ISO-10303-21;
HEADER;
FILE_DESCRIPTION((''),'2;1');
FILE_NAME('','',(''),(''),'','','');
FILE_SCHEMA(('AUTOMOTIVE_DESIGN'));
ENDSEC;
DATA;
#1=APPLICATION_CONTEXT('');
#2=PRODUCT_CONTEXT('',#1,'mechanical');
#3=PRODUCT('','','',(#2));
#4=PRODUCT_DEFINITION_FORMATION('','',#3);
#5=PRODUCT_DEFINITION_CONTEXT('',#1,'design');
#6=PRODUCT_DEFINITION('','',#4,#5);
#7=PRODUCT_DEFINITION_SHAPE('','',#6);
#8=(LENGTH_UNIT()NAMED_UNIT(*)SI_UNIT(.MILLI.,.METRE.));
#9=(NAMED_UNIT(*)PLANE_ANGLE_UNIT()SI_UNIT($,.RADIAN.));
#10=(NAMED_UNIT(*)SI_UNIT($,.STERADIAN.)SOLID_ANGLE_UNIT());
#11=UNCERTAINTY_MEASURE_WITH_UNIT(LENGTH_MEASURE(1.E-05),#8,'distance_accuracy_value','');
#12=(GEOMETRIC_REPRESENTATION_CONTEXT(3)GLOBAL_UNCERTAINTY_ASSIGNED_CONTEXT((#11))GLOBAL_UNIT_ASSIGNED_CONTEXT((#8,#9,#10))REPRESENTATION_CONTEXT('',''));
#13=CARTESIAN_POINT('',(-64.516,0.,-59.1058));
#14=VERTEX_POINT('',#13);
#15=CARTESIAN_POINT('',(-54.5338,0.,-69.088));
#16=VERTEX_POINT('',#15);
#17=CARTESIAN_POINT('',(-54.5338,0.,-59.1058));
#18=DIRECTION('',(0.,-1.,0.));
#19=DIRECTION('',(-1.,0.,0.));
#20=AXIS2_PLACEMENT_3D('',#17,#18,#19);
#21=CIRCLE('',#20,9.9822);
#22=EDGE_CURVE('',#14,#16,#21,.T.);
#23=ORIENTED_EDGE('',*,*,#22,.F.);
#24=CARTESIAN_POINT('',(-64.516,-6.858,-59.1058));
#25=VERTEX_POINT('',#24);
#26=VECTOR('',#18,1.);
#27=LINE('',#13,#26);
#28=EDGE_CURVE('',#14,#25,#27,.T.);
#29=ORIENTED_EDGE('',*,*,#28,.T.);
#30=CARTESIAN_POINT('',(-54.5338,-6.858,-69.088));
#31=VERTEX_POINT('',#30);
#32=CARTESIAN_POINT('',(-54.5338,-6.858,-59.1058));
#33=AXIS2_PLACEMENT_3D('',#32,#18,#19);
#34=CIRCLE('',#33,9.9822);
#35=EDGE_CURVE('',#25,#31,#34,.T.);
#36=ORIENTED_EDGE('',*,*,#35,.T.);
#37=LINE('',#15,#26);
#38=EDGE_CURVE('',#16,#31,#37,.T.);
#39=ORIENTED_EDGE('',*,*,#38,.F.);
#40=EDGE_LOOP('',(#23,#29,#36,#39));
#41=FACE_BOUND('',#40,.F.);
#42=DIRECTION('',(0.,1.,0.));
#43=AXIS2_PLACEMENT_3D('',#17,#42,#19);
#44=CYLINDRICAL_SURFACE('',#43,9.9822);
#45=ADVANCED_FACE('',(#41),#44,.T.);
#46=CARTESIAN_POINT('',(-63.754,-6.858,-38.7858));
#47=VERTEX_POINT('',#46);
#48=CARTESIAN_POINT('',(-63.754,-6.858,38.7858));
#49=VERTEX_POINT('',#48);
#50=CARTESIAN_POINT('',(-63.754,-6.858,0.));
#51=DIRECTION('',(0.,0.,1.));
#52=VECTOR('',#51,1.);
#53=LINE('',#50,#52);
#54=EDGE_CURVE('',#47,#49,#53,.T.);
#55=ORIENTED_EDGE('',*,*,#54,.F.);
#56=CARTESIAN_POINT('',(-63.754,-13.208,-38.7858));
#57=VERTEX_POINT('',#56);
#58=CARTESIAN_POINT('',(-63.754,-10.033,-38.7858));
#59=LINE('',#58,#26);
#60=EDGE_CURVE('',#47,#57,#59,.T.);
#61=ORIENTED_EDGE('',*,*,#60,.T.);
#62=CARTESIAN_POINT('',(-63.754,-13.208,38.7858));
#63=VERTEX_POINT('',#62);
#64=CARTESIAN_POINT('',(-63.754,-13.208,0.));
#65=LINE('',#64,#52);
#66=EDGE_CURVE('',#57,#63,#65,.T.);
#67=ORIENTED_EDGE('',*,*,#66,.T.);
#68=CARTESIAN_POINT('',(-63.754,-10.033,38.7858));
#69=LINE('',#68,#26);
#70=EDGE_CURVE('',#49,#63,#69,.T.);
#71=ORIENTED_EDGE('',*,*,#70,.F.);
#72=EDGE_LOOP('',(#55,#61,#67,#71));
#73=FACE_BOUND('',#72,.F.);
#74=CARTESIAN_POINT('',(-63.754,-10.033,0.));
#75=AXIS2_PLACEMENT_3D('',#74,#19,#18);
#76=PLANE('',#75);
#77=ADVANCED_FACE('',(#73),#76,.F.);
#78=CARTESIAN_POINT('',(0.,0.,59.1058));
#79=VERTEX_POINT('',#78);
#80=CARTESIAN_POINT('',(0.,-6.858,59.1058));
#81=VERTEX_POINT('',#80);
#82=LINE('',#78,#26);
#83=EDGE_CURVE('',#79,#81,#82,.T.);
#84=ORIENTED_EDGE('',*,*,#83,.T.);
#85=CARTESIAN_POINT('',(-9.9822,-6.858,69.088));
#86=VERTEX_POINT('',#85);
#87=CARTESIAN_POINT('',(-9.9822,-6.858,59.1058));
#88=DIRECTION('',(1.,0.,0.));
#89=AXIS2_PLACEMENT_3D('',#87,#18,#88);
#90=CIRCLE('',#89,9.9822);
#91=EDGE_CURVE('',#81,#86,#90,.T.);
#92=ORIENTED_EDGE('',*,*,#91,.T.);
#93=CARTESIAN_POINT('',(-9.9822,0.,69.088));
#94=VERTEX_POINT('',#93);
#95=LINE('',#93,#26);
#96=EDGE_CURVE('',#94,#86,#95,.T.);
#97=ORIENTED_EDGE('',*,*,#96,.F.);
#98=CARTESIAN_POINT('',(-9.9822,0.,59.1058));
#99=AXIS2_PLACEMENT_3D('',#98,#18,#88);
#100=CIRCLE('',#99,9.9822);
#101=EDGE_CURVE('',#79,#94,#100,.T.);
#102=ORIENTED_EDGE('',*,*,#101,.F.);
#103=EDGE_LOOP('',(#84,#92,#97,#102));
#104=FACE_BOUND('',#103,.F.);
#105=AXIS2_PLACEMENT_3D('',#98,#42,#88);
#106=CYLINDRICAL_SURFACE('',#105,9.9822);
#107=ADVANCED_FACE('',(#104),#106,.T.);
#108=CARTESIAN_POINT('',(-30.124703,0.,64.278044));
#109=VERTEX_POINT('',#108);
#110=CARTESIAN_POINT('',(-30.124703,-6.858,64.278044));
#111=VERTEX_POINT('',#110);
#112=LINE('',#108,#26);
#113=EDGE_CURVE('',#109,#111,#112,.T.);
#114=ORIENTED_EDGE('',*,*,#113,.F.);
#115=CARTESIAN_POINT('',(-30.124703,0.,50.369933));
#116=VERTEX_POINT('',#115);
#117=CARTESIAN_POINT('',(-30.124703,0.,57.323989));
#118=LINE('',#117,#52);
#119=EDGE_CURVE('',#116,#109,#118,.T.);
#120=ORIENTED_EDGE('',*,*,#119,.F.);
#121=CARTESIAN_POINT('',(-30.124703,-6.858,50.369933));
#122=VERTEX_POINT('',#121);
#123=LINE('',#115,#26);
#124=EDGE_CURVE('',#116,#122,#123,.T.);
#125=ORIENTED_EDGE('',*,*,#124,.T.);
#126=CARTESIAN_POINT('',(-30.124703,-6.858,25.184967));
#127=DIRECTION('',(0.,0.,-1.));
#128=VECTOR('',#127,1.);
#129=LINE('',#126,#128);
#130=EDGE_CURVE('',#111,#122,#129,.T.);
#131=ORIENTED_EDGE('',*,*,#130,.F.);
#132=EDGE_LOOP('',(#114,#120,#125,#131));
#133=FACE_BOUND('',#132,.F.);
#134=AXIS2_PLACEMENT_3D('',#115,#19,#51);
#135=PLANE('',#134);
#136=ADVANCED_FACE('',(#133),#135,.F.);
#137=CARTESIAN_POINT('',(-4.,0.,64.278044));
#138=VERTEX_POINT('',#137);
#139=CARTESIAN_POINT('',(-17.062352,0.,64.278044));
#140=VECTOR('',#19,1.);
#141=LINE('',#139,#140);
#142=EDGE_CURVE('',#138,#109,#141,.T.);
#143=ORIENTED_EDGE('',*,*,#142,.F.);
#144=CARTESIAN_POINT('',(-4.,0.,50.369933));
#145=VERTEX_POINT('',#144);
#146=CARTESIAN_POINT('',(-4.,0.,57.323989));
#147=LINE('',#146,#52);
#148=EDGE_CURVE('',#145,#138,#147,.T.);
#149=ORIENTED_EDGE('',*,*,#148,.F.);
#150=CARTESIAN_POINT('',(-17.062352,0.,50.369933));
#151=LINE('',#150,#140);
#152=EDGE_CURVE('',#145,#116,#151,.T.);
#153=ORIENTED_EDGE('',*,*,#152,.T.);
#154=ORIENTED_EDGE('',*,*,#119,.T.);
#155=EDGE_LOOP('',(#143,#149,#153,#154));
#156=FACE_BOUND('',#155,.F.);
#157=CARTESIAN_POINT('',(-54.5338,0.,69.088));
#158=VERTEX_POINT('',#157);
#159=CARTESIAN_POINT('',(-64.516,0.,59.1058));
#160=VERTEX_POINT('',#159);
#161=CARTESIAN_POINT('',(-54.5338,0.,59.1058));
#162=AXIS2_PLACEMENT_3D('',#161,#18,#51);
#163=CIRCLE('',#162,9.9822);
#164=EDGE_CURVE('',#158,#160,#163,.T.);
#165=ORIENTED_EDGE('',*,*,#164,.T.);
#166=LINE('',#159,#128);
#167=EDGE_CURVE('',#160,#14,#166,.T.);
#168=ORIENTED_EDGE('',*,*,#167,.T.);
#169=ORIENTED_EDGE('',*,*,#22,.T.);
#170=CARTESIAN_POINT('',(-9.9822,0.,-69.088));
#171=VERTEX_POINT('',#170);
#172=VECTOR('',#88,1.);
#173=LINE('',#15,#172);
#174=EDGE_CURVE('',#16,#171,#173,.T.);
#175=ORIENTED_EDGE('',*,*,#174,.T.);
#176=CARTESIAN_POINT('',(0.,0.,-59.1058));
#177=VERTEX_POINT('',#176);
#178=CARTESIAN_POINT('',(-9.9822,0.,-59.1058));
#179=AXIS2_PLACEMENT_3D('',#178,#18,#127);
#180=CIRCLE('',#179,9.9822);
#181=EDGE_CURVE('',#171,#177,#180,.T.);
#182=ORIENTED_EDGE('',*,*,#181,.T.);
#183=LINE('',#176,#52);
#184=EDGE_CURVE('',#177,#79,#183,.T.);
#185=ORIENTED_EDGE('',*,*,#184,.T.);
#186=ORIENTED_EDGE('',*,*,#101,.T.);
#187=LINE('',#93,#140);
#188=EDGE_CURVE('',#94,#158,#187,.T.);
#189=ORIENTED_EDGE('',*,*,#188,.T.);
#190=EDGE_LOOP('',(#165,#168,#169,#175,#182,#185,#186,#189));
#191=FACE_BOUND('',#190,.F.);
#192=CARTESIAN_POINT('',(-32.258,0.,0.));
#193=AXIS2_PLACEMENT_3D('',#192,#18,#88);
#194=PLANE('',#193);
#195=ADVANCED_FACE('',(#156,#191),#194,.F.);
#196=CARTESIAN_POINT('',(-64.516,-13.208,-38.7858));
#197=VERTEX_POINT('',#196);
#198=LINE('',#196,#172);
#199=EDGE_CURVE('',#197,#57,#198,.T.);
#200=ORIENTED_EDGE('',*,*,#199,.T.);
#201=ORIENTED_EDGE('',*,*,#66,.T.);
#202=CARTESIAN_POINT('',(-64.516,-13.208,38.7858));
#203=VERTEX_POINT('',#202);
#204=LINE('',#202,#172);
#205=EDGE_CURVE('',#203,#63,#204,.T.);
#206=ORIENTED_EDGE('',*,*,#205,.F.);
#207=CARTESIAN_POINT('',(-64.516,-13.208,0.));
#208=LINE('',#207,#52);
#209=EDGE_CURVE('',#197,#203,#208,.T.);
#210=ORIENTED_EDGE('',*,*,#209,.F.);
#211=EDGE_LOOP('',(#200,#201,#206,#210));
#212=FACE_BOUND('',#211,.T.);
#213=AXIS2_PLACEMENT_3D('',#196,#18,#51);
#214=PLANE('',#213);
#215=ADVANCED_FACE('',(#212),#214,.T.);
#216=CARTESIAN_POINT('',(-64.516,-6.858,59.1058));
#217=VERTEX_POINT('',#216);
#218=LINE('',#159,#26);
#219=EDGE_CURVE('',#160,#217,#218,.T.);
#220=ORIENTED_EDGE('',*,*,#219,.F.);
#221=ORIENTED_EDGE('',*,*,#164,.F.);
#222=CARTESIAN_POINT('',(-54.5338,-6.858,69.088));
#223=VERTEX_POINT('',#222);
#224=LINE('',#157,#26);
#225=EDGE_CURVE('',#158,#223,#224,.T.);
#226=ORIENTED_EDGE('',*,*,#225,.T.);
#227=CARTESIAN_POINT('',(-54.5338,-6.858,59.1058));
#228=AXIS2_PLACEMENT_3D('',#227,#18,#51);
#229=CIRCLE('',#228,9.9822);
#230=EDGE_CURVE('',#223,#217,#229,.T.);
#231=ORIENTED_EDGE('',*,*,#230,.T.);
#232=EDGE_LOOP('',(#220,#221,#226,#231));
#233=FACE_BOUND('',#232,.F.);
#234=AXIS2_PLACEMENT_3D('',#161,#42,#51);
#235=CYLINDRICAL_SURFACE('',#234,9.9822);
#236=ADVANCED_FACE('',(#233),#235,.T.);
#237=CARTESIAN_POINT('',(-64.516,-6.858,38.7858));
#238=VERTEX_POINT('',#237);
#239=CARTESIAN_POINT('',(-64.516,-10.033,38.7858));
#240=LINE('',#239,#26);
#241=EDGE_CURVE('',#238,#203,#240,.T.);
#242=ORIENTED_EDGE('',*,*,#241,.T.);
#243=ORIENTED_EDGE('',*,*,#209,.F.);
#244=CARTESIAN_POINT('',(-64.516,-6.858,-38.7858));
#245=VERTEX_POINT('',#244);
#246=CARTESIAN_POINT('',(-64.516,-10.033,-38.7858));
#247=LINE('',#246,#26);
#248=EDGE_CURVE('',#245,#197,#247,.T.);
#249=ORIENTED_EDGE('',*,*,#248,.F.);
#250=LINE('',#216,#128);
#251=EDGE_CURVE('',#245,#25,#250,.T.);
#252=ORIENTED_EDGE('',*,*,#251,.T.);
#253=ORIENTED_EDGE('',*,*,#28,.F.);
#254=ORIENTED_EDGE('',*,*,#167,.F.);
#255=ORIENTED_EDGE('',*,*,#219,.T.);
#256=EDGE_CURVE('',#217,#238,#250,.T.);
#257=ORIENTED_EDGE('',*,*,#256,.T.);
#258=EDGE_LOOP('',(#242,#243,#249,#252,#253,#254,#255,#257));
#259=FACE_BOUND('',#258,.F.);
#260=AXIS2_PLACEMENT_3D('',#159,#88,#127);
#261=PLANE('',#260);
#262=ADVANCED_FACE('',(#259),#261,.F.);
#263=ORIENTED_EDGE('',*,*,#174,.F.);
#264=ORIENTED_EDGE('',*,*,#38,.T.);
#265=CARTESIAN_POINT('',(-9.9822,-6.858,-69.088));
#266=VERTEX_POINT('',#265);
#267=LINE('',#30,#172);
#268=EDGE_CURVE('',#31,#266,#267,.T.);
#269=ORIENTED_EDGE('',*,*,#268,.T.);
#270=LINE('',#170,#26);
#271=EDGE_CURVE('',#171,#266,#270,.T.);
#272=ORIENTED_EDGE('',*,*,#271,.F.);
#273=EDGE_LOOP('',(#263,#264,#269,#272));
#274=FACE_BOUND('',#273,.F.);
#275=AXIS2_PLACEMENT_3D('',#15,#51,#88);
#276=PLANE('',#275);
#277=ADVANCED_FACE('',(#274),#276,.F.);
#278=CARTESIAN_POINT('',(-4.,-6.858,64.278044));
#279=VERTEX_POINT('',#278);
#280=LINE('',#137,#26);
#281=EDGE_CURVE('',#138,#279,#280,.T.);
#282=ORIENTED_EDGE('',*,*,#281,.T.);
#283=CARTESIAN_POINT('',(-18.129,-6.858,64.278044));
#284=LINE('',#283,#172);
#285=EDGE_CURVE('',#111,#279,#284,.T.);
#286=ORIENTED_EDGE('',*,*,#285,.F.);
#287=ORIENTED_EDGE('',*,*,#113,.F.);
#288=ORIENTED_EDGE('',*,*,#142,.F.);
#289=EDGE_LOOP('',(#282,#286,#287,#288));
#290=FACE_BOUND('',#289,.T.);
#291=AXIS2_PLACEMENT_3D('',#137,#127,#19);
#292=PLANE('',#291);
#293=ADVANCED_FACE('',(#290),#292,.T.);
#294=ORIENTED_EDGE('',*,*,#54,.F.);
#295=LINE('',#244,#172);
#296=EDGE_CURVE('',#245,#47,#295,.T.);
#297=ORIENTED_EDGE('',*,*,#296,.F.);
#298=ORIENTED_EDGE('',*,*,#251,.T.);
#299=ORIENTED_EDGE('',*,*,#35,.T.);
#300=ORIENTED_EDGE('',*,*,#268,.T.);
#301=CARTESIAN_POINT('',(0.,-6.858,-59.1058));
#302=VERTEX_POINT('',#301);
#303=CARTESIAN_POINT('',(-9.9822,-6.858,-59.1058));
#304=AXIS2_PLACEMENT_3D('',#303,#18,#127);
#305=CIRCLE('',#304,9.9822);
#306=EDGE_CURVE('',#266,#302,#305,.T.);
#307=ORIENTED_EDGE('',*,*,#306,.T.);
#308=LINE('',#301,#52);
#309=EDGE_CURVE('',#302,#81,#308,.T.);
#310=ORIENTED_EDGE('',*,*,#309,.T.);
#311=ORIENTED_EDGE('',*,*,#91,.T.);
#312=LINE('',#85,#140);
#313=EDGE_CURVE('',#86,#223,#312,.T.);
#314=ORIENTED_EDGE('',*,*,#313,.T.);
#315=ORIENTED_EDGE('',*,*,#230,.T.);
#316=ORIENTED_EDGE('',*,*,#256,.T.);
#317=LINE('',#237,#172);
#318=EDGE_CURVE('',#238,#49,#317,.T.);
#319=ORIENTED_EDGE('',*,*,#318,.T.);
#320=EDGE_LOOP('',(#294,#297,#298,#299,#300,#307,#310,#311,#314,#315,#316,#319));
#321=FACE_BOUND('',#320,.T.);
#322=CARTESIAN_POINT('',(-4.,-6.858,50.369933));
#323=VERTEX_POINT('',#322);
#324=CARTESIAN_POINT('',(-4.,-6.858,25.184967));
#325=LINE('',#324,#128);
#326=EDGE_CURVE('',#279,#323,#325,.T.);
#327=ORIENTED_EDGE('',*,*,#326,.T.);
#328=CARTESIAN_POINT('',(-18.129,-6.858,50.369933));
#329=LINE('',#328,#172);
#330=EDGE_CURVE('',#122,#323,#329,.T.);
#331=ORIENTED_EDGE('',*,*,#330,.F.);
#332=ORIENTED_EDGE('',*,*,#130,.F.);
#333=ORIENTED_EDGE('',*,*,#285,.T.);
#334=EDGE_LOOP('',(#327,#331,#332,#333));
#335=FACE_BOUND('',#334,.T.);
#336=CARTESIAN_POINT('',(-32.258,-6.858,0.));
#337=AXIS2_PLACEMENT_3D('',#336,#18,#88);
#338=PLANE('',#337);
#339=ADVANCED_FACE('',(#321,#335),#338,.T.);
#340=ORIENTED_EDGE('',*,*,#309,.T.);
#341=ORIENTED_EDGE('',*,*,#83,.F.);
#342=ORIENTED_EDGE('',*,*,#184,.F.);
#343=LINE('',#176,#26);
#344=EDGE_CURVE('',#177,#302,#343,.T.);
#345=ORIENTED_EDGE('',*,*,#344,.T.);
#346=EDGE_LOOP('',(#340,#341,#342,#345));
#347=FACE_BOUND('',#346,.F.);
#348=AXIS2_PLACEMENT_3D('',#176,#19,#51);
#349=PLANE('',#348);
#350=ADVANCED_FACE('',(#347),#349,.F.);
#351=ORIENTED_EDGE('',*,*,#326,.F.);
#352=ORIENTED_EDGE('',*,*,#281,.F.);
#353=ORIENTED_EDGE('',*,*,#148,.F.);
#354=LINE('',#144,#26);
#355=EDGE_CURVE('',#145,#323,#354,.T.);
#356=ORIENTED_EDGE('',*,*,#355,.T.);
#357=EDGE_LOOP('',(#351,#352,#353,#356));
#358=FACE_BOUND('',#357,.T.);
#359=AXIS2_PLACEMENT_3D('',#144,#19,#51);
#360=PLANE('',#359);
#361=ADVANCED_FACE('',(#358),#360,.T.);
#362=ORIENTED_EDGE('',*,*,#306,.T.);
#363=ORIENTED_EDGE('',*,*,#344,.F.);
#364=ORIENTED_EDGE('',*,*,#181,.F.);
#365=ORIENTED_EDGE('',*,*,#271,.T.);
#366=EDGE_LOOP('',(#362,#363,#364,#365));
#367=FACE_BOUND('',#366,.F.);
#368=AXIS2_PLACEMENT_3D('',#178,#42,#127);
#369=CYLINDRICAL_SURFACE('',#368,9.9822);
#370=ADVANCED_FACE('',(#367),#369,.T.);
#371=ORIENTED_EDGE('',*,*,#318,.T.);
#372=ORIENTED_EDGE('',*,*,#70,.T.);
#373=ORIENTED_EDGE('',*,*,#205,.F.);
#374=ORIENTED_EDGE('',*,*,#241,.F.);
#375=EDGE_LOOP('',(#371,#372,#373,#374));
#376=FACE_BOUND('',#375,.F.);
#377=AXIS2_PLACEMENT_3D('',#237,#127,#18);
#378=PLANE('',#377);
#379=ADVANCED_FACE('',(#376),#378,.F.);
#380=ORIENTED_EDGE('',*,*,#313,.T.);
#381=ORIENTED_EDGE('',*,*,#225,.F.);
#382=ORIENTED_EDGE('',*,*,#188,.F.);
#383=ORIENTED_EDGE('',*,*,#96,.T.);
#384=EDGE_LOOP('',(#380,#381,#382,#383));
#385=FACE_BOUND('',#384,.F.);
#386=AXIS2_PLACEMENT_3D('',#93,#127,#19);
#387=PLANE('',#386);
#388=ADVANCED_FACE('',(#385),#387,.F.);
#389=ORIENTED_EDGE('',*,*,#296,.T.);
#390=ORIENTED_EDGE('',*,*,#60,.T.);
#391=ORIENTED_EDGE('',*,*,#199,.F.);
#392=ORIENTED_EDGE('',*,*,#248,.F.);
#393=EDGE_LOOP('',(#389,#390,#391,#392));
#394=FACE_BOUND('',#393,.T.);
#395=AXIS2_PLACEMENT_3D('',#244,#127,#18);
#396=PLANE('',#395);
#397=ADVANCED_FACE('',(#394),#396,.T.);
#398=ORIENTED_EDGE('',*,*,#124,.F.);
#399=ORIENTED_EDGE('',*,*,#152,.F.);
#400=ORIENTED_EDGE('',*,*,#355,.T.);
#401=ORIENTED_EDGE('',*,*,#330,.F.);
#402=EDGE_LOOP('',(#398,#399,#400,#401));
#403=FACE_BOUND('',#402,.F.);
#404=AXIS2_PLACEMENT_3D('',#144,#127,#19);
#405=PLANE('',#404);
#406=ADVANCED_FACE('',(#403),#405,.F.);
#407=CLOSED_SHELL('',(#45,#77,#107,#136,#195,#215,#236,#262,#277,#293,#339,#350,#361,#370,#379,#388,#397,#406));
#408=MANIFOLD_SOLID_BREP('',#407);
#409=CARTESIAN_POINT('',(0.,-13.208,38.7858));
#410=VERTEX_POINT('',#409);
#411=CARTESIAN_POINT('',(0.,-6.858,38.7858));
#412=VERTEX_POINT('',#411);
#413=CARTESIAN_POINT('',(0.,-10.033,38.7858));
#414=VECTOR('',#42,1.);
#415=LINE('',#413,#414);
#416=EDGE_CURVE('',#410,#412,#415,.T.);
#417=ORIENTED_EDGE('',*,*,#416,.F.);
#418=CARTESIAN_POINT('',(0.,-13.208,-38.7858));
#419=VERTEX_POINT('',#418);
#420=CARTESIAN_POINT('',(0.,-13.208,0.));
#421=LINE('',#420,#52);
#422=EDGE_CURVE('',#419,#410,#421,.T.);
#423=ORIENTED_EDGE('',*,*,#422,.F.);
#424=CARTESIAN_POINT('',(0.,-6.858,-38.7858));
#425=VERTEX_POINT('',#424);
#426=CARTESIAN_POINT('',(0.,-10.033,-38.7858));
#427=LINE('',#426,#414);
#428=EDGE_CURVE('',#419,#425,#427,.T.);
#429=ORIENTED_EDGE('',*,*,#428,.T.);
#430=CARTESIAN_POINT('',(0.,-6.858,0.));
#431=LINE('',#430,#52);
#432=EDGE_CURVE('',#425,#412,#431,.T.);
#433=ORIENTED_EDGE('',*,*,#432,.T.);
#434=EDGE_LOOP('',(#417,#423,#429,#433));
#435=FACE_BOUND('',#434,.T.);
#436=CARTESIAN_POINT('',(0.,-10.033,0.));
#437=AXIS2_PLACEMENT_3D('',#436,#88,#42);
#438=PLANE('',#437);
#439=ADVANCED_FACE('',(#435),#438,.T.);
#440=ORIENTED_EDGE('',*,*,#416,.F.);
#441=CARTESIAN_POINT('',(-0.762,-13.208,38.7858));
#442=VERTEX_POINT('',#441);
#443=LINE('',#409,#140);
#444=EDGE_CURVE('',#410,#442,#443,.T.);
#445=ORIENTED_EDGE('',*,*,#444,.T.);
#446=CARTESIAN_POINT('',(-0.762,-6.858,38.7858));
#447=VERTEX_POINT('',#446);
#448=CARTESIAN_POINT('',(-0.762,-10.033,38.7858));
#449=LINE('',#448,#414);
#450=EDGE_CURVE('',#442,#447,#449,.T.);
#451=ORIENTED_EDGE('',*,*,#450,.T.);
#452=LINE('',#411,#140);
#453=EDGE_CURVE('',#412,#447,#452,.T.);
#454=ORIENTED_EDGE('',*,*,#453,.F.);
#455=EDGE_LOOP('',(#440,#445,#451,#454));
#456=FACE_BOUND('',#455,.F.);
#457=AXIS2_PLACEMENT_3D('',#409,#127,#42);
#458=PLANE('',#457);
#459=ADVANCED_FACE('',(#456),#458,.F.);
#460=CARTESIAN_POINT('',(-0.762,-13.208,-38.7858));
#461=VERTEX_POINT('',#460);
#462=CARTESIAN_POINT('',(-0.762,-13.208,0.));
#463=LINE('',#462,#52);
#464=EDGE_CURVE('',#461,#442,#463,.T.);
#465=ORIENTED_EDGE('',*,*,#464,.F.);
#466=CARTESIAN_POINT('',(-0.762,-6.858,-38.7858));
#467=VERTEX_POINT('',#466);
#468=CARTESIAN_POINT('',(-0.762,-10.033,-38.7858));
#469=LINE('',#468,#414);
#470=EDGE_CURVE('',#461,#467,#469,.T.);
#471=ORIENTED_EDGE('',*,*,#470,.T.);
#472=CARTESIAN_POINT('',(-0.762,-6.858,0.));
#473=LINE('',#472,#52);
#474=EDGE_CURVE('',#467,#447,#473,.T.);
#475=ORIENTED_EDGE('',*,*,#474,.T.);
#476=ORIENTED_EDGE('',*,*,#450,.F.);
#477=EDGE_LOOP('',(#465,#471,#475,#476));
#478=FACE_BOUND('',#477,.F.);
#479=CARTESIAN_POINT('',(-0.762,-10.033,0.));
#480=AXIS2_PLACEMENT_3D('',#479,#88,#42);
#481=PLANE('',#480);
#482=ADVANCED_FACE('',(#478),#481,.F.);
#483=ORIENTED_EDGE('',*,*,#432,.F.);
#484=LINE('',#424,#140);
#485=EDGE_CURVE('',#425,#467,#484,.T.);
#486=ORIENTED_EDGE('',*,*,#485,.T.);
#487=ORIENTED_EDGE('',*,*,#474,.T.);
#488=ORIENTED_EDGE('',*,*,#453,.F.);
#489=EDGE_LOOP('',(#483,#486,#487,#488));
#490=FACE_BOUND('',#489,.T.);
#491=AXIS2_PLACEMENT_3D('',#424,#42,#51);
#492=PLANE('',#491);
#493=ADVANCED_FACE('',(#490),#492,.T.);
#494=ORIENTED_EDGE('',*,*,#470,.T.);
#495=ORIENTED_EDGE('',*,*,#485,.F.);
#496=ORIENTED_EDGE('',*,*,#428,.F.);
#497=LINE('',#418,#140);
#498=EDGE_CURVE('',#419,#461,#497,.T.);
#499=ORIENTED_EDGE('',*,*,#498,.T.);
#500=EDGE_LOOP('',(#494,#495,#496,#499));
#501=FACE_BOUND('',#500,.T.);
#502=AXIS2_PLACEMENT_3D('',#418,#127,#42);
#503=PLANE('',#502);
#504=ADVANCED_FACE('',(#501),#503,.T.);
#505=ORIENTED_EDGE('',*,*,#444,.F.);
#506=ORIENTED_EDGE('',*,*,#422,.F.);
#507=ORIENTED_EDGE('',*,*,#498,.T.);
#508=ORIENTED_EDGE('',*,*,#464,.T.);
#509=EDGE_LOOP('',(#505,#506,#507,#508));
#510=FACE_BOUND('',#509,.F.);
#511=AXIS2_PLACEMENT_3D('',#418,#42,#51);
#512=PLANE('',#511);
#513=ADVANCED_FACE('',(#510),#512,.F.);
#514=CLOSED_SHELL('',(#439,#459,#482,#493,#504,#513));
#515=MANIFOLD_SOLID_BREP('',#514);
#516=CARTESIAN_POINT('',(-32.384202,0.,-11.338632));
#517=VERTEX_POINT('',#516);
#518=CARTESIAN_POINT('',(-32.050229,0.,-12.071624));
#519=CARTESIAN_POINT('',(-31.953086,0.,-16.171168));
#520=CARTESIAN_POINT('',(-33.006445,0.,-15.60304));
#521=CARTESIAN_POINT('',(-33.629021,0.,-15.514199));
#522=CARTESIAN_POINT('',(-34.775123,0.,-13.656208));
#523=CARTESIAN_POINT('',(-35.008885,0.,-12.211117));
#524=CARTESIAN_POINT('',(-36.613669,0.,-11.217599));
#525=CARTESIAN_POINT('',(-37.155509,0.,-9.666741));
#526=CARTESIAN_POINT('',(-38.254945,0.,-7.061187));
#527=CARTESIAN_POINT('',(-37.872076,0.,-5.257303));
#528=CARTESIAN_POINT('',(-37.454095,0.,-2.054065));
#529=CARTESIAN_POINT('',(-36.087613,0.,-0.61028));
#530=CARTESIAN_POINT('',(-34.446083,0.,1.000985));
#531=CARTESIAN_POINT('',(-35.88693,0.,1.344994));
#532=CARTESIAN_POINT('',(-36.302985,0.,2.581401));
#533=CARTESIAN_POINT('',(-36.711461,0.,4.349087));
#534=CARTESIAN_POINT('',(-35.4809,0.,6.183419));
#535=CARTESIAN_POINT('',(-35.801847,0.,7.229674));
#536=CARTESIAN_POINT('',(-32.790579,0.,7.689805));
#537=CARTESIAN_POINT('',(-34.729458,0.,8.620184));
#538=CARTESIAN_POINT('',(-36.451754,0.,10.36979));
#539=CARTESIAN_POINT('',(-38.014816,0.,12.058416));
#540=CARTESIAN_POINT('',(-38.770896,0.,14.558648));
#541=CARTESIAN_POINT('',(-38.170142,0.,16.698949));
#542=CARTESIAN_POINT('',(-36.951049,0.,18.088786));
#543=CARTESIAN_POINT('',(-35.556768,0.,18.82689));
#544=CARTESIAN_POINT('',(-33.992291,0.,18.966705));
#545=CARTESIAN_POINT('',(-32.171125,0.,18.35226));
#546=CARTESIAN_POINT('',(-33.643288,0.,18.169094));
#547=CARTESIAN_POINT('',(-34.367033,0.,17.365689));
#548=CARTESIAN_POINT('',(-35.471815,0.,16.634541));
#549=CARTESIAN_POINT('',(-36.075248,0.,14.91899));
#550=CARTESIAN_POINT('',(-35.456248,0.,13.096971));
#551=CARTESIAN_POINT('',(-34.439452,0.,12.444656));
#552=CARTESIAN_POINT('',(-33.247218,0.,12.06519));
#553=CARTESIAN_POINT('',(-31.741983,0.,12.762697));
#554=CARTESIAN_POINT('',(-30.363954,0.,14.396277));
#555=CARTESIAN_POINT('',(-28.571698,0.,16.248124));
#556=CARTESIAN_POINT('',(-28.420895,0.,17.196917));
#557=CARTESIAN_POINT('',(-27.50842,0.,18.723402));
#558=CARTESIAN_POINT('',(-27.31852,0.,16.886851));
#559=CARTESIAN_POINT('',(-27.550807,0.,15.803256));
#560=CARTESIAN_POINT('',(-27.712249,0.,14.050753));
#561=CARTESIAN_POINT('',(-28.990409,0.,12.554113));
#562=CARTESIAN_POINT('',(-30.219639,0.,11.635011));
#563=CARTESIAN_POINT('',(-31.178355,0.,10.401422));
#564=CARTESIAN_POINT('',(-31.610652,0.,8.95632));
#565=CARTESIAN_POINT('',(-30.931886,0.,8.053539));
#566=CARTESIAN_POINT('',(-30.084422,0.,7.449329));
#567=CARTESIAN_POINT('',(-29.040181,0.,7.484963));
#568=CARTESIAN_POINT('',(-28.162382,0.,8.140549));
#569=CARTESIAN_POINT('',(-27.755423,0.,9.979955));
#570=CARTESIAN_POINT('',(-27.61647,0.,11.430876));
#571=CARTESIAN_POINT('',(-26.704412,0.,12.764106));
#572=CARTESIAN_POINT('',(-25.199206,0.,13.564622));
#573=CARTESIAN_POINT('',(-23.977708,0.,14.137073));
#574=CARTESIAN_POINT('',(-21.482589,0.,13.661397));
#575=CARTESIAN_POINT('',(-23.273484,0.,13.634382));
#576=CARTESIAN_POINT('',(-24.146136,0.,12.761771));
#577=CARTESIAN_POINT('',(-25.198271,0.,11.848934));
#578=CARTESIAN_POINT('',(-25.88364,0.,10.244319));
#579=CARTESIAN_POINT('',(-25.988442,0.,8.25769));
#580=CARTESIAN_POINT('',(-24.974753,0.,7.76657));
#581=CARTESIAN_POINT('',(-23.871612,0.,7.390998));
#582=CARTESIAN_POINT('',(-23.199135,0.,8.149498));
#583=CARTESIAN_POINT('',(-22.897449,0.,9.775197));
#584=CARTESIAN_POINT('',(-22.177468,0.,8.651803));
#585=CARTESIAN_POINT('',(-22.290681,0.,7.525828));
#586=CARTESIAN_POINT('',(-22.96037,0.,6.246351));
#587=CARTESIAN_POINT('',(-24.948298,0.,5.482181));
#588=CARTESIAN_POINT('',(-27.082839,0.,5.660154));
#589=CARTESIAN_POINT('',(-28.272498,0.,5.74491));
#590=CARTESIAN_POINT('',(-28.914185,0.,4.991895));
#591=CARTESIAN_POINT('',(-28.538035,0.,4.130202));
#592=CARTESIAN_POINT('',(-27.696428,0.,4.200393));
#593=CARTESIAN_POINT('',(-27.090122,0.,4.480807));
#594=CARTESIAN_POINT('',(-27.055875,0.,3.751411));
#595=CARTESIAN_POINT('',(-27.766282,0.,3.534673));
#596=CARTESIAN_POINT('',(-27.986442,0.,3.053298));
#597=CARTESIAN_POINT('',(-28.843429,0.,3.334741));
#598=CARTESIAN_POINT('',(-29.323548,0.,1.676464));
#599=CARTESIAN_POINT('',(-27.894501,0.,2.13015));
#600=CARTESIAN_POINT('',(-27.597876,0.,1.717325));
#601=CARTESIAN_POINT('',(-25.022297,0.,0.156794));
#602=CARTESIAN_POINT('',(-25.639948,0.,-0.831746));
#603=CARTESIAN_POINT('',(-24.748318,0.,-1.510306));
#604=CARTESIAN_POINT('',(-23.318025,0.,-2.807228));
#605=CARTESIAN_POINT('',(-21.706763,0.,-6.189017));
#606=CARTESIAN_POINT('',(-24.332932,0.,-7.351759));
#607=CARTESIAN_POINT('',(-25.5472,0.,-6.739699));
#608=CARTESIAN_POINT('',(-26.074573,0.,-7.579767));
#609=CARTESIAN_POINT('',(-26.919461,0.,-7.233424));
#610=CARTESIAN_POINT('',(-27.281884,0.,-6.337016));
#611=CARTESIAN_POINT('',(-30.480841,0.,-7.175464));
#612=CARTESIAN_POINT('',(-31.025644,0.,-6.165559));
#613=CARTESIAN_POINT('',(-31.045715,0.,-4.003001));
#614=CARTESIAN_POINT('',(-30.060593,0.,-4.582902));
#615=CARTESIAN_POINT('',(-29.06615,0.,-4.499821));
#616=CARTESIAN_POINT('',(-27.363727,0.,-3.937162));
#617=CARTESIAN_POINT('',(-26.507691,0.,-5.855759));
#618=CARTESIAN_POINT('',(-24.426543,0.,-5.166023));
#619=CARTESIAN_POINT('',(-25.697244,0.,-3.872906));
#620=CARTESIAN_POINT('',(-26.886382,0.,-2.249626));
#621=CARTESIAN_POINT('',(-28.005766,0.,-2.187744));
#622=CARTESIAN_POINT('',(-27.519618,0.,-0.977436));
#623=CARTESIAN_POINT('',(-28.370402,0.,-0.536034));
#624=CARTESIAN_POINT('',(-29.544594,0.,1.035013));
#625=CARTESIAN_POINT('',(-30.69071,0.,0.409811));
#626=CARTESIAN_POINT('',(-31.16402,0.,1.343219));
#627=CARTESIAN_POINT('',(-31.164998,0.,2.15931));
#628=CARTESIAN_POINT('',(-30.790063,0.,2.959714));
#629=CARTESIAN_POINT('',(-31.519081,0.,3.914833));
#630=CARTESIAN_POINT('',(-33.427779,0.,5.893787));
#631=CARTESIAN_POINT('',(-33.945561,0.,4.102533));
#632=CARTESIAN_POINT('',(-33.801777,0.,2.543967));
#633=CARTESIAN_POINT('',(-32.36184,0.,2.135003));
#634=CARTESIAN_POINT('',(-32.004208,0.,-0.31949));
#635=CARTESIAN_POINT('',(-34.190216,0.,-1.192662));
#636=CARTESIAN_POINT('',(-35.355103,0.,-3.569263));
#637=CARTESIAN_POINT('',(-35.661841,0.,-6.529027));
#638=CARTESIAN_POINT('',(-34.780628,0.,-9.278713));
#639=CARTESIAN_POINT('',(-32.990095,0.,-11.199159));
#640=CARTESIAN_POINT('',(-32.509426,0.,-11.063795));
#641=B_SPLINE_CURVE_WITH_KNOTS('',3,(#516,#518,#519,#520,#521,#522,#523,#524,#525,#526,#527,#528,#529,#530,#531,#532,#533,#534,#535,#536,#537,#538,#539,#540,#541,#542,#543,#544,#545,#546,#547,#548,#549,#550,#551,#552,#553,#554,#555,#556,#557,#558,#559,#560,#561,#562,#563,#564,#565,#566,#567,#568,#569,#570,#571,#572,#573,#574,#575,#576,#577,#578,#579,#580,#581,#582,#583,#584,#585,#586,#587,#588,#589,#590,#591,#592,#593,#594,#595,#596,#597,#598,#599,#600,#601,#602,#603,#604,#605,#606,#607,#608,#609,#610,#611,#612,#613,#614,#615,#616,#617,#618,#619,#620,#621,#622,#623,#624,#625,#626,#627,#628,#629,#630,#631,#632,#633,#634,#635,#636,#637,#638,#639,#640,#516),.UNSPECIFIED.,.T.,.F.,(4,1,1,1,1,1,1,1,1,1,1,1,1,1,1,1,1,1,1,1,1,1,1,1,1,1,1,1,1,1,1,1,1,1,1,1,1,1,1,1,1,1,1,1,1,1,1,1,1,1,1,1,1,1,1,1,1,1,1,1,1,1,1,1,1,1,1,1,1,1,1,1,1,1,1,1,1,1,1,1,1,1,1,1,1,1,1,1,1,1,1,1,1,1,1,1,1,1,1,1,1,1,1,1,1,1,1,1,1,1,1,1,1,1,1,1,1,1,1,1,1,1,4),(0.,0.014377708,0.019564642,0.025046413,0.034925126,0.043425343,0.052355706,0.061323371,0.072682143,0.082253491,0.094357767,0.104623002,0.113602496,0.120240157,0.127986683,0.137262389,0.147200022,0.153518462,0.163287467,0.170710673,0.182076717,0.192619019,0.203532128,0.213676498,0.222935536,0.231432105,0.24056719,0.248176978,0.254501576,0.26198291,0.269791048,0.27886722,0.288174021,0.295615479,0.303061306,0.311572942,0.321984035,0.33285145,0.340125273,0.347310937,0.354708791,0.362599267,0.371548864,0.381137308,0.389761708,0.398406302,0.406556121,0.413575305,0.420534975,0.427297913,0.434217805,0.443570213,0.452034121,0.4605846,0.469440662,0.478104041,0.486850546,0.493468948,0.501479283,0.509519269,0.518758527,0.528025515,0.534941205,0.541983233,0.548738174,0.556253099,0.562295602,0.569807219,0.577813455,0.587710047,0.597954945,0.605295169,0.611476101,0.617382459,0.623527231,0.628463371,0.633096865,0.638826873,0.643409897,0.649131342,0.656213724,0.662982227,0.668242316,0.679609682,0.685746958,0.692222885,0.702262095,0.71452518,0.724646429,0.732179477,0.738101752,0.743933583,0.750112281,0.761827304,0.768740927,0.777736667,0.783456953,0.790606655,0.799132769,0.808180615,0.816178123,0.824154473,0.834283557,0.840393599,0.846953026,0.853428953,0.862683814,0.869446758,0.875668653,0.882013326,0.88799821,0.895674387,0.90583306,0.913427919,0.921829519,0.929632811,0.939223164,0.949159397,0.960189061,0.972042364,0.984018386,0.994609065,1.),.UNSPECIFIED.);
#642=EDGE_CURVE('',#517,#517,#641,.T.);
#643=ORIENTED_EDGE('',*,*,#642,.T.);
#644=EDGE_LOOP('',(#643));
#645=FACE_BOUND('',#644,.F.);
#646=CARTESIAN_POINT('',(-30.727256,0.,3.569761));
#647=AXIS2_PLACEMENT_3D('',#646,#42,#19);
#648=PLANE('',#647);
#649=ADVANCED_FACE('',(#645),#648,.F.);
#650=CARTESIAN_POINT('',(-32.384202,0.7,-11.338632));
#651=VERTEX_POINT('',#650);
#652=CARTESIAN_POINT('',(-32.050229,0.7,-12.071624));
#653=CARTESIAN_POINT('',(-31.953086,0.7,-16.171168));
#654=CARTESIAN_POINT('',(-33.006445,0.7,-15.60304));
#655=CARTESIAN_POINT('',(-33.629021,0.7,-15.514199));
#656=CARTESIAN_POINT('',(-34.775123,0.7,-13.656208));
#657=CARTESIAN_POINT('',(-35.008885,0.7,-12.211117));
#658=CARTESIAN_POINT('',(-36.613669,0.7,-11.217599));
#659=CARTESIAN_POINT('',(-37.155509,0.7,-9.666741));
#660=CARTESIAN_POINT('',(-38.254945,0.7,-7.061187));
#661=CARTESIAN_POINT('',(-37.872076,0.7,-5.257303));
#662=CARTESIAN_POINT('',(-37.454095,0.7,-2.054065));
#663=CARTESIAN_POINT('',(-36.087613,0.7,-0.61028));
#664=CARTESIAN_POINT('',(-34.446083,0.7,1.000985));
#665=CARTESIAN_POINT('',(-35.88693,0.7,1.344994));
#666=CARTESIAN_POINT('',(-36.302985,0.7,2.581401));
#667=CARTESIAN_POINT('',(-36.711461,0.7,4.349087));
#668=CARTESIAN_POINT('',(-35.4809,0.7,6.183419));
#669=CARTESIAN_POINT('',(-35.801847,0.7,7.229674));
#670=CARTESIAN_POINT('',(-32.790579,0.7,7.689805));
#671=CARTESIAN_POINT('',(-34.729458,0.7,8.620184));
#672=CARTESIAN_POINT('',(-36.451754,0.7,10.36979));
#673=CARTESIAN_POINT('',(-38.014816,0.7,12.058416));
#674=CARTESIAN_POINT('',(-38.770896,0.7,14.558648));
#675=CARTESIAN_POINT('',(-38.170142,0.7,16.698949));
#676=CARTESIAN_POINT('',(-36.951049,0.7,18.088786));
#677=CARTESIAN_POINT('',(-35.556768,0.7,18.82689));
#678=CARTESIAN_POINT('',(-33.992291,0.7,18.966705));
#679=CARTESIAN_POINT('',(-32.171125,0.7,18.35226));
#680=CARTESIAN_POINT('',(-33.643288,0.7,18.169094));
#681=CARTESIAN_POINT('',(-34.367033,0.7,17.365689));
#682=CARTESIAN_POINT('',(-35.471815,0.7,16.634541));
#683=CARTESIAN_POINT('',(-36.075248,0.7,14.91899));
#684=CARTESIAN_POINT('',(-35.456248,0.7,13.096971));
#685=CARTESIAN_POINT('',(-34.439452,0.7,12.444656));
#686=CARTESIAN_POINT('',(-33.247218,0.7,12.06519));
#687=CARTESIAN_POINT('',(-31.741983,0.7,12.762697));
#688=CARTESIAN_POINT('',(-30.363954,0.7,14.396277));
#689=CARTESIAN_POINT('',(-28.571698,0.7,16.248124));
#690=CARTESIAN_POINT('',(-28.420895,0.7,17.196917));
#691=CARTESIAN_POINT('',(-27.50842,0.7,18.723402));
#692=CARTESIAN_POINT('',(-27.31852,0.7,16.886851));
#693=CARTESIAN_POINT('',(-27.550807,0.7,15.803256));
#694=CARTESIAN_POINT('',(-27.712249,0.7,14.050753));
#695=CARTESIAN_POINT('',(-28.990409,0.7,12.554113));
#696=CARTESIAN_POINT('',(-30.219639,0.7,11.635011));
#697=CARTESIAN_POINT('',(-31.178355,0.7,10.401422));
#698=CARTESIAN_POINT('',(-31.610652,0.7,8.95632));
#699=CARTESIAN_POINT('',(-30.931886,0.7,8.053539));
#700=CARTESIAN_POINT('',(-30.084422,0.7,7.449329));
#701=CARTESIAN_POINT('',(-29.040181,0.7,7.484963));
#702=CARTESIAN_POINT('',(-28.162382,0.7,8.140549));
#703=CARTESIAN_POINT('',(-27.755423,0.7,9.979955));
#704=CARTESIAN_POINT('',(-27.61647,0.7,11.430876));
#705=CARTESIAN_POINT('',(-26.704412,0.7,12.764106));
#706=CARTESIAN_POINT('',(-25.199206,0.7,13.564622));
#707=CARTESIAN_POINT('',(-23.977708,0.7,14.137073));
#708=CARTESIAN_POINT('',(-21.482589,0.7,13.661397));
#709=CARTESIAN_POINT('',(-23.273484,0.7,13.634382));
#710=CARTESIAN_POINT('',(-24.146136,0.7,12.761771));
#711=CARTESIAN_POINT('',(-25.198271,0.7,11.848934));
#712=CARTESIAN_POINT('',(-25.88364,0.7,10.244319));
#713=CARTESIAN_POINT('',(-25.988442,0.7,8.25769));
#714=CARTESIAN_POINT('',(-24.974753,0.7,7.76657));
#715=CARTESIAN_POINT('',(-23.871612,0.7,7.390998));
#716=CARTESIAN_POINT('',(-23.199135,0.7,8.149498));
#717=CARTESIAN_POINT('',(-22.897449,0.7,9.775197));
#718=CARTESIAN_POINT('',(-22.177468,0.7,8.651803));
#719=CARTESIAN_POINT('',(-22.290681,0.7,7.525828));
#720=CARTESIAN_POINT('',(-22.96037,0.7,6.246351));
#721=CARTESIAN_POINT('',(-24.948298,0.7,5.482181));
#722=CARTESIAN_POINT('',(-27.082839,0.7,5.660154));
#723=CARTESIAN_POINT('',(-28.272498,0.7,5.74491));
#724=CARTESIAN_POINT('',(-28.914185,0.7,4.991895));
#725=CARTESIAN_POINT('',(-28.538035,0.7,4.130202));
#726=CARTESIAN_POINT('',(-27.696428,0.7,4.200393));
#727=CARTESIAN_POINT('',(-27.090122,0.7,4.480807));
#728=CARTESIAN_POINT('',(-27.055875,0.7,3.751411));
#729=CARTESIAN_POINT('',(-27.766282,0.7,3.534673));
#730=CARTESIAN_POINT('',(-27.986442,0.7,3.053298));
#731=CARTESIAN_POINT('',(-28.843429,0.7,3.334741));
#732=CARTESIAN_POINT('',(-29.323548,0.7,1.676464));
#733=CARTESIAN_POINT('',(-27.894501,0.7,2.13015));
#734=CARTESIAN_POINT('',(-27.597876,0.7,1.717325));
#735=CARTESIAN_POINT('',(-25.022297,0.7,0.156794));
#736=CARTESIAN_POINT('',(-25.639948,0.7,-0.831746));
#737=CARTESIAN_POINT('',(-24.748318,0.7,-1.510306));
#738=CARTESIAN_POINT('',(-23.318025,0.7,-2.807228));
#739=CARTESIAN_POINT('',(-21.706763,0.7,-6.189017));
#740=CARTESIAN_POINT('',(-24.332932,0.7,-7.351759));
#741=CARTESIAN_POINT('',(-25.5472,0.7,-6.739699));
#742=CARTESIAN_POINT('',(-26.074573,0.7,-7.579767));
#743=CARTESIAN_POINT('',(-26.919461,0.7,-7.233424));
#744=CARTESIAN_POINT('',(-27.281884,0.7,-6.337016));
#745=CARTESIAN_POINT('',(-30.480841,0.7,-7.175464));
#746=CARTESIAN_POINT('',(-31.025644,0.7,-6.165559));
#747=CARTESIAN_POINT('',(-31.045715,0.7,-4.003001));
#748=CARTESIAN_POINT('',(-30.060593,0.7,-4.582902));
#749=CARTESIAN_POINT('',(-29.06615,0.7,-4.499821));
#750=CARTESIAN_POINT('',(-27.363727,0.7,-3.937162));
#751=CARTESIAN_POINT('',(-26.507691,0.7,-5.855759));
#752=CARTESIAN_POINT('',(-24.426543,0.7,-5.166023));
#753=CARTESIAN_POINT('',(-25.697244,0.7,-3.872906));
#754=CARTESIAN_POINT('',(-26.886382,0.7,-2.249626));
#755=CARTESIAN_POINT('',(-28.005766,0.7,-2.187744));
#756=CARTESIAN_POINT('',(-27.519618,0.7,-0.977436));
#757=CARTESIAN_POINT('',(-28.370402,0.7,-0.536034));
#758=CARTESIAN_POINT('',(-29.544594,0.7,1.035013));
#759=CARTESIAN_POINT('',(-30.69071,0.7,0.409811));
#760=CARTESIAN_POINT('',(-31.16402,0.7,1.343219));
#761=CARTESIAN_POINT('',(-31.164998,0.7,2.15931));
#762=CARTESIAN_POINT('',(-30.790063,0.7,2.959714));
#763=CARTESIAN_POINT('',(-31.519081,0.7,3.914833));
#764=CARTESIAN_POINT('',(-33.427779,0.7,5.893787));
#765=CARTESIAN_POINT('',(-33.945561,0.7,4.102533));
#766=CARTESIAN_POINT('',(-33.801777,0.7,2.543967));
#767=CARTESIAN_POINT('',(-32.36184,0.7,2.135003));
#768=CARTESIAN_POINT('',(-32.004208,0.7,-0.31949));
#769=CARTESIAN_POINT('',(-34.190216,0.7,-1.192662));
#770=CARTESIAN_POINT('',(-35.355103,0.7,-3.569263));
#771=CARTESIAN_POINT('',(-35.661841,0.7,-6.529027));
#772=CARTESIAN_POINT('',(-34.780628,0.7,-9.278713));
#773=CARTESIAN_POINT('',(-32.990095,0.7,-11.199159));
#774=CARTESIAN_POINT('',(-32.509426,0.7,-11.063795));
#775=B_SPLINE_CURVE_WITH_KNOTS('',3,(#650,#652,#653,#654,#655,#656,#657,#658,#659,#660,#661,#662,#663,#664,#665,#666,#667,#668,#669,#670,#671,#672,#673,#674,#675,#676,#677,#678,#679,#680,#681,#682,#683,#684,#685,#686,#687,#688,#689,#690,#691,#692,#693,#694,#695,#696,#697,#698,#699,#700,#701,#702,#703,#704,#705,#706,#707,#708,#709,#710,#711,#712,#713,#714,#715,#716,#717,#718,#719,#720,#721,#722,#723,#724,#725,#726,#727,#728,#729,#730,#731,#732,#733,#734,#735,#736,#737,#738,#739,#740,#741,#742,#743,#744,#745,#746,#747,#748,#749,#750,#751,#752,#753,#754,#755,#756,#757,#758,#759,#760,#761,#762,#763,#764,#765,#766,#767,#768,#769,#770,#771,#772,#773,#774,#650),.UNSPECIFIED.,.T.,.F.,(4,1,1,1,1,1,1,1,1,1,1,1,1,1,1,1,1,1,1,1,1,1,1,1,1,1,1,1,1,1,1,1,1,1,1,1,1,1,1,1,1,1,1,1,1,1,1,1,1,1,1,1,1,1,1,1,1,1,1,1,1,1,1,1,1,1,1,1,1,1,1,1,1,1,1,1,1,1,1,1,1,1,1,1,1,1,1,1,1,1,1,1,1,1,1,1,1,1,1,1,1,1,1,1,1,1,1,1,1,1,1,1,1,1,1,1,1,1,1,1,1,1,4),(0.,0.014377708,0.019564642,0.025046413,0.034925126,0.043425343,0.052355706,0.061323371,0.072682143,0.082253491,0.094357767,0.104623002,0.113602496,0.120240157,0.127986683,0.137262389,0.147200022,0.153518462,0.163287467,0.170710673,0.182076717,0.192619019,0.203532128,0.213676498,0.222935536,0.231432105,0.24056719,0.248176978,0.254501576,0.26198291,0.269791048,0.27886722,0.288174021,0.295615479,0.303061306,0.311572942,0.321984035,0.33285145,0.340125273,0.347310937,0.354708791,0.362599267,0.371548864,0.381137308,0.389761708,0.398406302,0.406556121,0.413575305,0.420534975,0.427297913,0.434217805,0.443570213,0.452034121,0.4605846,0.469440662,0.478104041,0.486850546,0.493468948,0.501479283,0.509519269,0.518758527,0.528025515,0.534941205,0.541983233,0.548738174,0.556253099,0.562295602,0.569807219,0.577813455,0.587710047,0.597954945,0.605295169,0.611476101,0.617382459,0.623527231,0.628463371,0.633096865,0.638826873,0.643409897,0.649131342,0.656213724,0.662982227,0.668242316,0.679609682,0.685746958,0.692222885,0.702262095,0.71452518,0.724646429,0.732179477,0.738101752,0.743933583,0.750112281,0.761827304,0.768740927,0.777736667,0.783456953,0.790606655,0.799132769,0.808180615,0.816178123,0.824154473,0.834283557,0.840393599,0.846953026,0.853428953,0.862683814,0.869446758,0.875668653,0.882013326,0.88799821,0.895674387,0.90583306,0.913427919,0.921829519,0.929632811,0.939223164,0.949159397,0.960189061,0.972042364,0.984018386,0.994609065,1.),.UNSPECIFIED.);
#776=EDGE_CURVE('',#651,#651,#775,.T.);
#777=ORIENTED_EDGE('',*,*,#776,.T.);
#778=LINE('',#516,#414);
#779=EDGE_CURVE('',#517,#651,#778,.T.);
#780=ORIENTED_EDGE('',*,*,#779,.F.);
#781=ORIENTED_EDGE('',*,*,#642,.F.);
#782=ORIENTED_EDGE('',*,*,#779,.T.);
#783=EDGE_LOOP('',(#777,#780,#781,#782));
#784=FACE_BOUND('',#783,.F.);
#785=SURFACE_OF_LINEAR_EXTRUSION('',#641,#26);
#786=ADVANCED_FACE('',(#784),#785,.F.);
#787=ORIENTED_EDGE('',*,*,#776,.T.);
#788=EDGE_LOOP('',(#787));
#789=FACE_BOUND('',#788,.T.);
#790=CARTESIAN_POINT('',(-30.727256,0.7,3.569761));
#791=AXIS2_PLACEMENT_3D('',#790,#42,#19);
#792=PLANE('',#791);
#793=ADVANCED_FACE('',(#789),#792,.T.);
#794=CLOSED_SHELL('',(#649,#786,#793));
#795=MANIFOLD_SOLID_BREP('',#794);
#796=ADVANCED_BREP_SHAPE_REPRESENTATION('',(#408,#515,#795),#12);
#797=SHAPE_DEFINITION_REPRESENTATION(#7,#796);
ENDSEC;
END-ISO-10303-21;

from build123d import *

# Parameters (mm, degrees)
F1_DEPTH = 6.858
F2_W     = 6.35
F2_H     = 77.5716
F3_DEPTH = 0.762
F4_W     = 6.35
F4_H     = 77.5716
F5_DEPTH = 0.762
F6_W     = 26.1247032322
F6_H     = 13.908110559
F7_DEPTH = 25
F9_DEPTH = 0.7


with BuildPart() as f1:
    # F0 (on Front) → F1 (new body)
    with BuildSketch(Plane.XZ):
        with BuildLine():
            Line((0, 0), (0, 59.1058))
            ThreePointArc((0, 59.1058), (-2.9237186888, 66.1642813112), (-9.9822, 69.088))
            Line((-9.9822, 69.088), (-54.5338, 69.088))
            ThreePointArc((-54.5338, 69.088), (-61.5922813112, 66.1642813112), (-64.516, 59.1058))
            Line((-64.516, 59.1058), (-64.516, -59.1058))
            ThreePointArc((-64.516, -59.1058), (-61.5922813112, -66.1642813112), (-54.5338, -69.088))
            Line((-54.5338, -69.088), (-9.9822, -69.088))
            ThreePointArc((-9.9822, -69.088), (-2.9237186888, -66.1642813112), (0, -59.1058))
            Line((0, -59.1058), (0, 0))
        make_face()
    extrude(amount=F1_DEPTH)

    # F4 (on face) → F5 (join)
    with BuildSketch(Plane(origin=(-64.516, 0, 0), x_dir=(0, -1, 0), z_dir=(-1, 0, 0))):
        with Locations((10.033, 0)):
            Rectangle(F4_W, F4_H)
    extrude(amount=-F5_DEPTH)

    # F6 (on face) → F7 (cut)
    with BuildSketch(Plane(origin=(0, 0, 0), x_dir=(-1, 0, 0), z_dir=(0, 1, 0))):
        with Locations((17.0623516161, 57.3239885271)):
            Rectangle(F6_W, F6_H)
    extrude(amount=-F7_DEPTH, mode=Mode.SUBTRACT)


with BuildPart() as f3:
    # F2 (on Right) → F3 (new body)
    with BuildSketch(Plane.YZ):
        with Locations((-10.033, 0)):
            Rectangle(F2_W, F2_H)
    extrude(amount=-F3_DEPTH)


with BuildPart() as f9:
    # F8 (on face) → F9 (new body)
    with BuildSketch(Plane(origin=(0, 0, 0), x_dir=(-1, 0, 0), z_dir=(0, 1, 0))):
        with BuildLine():
            add(Edge.make_bspline(
                [(32.3842018843, -11.3386316225), (32.0502285107, -12.0716243861), (31.9530861422, -16.1711675921), (33.0064452163, -15.603039907), (33.6290214848, -15.5141990604), (34.7751229777, -13.6562078064), (35.0088851811, -12.2111174266), (36.6136686973, -11.2175994653), (37.1555091824, -9.6667413693), (38.2549451163, -7.0611872269), (37.8720759651, -5.2573031806), (37.4540945913, -2.0540654524), (36.0876132583, -0.6102798911), (34.4460834797, 1.000984801), (35.8869302156, 1.3449940587), (36.3029845312, 2.581401017), (36.7114606974, 4.3490867598), (35.4808998003, 6.183419167), (35.8018471603, 7.2296738087), (32.7905787627, 7.6898053954), (34.7294581785, 8.620184185), (36.4517544932, 10.3697903403), (38.014815585, 12.0584155347), (38.7708958708, 14.5586477603), (38.1701421628, 16.6989494379), (36.9510486534, 18.0887855187), (35.5567684738, 18.8268904636), (33.9922909801, 18.9667053315), (32.17112464, 18.3522598756), (33.6432884204, 18.1690942228), (34.3670325766, 17.3656894144), (35.4718152266, 16.6345412674), (36.0752482355, 14.9189901779), (35.4562476951, 13.0969708264), (34.4394522959, 12.4446560551), (33.2472181944, 12.0651902852), (31.7419833744, 12.7626971392), (30.363954497, 14.3962770982), (28.571698173, 16.2481238843), (28.420894876, 17.1969167632), (27.5084198786, 18.7234015432), (27.3185198086, 16.886850644), (27.5508067813, 15.8032559722), (27.7122486146, 14.0507533679), (28.9904093714, 12.5541128047), (30.2196394191, 11.6350111398), (31.1783551258, 10.4014224299), (31.6106515715, 8.9563202385), (30.9318859078, 8.0535389387), (30.0844222167, 7.4493290481), (29.0401812953, 7.4849628801), (28.1623822909, 8.1405492344), (27.7554230833, 9.979955267), (27.6164696082, 11.4308762247), (26.7044122696, 12.7641061271), (25.1992061783, 13.5646221236), (23.9777078091, 14.1370733242), (21.4825885371, 13.6613972693), (23.2734844697, 13.6343824987), (24.1461355186, 12.7617705206), (25.1982709983, 11.8489337023), (25.8836403389, 10.2443191274), (25.9884422829, 8.2576895096), (24.974752816, 7.7665698723), (23.8716119427, 7.3909979048), (23.1991348296, 8.149497651), (22.8974494796, 9.7751966137), (22.1774683808, 8.6518032549), (22.2906810522, 7.5258284108), (22.9603699626, 6.2463509057), (24.9482981844, 5.4821812945), (27.0828386712, 5.6601537647), (28.2724976188, 5.7449101415), (28.9141852281, 4.9918948568), (28.5380349945, 4.1302021599), (27.6964280359, 4.2003928553), (27.0901217187, 4.4808068309), (27.0558749401, 3.7514113951), (27.7662821245, 3.5346728562), (27.9864417841, 3.0532980608), (28.8434289162, 3.3347405325), (29.3235481026, 1.6764643971), (27.8945008289, 2.1301500934), (27.5978758382, 1.7173252237), (25.0222968704, 0.1567938787), (25.6399483884, -0.8317457106), (24.7483181078, -1.5103061126), (23.3180253708, -2.8072279462), (21.7067633591, -6.1890173846), (24.3329320579, -7.3517591391), (25.5471996538, -6.7396988091), (26.0745730735, -7.579766765), (26.9194605064, -7.2334244477), (27.2818843674, -6.3370162199), (30.4808411043, -7.1754644199), (31.025643841, -6.165559133), (31.0457145316, -4.0030012545), (30.0605932324, -4.5829024795), (29.0661501389, -4.4998208906), (27.363726614, -3.9371617379), (26.5076910982, -5.8557589626), (24.4265433117, -5.166023423), (25.6972441944, -3.8729062416), (26.8863817217, -2.2496259387), (28.005766166, -2.1877435013), (27.5196180812, -0.9774358266), (28.3704015993, -0.5360342573), (29.5445944358, 1.0350125914), (30.6907097134, 0.4098108127), (31.1640203339, 1.3432186798), (31.1649976161, 2.1593096127), (30.7900625932, 2.9597142636), (31.5190814969, 3.9148332526), (33.4277788953, 5.8937870984), (33.9455608967, 4.1025333946), (33.8017770103, 2.5439666544), (32.361839507, 2.1350031991), (32.0042075978, -0.3194902777), (34.1902162875, -1.1926615373), (35.3551033801, -3.5692625528), (35.6618414931, -6.5290265974), (34.7806275409, -9.2787125193), (32.9900951815, -11.1991589974), (32.5094255108, -11.0637953051), (32.3842018843, -11.3386316225)],
                knots=[0, 0, 0, 0, 0.0143777079, 0.0195646415, 0.0250464127, 0.0349251258, 0.0434253426, 0.0523557059, 0.0613233707, 0.0726821429, 0.0822534913, 0.0943577668, 0.1046230024, 0.1136024962, 0.1202401572, 0.1279866828, 0.1372623895, 0.1472000225, 0.1535184617, 0.1632874673, 0.1707106735, 0.1820767171, 0.1926190195, 0.2035321285, 0.2136764975, 0.2229355359, 0.2314321049, 0.24056719, 0.2481769784, 0.2545015762, 0.2619829103, 0.2697910477, 0.27886722, 0.2881740208, 0.2956154789, 0.3030613062, 0.3115729416, 0.3219840353, 0.3328514501, 0.3401252726, 0.3473109374, 0.3547087911, 0.3625992674, 0.3715488642, 0.3811373075, 0.3897617079, 0.3984063023, 0.4065561211, 0.4135753045, 0.4205349747, 0.4272979128, 0.4342178047, 0.4435702135, 0.4520341209, 0.4605846, 0.4694406622, 0.4781040408, 0.4868505464, 0.4934689484, 0.5014792831, 0.509519269, 0.5187585266, 0.5280255148, 0.5349412049, 0.5419832332, 0.5487381743, 0.5562530985, 0.5622956022, 0.5698072186, 0.5778134555, 0.587710047, 0.5979549448, 0.6052951688, 0.6114761008, 0.6173824587, 0.6235272311, 0.6284633711, 0.633096865, 0.6388268732, 0.6434098972, 0.6491313423, 0.6562137237, 0.6629822271, 0.6682423158, 0.6796096816, 0.6857469581, 0.6922228848, 0.7022620955, 0.7145251798, 0.7246464286, 0.7321794773, 0.7381017517, 0.7439335831, 0.7501122806, 0.7618273041, 0.768740927, 0.7777366674, 0.7834569526, 0.7906066547, 0.7991327685, 0.8081806145, 0.8161781229, 0.8241544729, 0.834283557, 0.8403935987, 0.8469530264, 0.8534289533, 0.8626838135, 0.8694467581, 0.8756686528, 0.8820133256, 0.8879982097, 0.8956743874, 0.9058330597, 0.9134279192, 0.9218295189, 0.9296328114, 0.9392231645, 0.9491593972, 0.9601890606, 0.9720423636, 0.9840183861, 0.9946090651, 1, 1, 1, 1], degree=3))
        make_face()
    extrude(amount=F9_DEPTH)


solid = Compound([f1.part, f3.part, f9.part])
